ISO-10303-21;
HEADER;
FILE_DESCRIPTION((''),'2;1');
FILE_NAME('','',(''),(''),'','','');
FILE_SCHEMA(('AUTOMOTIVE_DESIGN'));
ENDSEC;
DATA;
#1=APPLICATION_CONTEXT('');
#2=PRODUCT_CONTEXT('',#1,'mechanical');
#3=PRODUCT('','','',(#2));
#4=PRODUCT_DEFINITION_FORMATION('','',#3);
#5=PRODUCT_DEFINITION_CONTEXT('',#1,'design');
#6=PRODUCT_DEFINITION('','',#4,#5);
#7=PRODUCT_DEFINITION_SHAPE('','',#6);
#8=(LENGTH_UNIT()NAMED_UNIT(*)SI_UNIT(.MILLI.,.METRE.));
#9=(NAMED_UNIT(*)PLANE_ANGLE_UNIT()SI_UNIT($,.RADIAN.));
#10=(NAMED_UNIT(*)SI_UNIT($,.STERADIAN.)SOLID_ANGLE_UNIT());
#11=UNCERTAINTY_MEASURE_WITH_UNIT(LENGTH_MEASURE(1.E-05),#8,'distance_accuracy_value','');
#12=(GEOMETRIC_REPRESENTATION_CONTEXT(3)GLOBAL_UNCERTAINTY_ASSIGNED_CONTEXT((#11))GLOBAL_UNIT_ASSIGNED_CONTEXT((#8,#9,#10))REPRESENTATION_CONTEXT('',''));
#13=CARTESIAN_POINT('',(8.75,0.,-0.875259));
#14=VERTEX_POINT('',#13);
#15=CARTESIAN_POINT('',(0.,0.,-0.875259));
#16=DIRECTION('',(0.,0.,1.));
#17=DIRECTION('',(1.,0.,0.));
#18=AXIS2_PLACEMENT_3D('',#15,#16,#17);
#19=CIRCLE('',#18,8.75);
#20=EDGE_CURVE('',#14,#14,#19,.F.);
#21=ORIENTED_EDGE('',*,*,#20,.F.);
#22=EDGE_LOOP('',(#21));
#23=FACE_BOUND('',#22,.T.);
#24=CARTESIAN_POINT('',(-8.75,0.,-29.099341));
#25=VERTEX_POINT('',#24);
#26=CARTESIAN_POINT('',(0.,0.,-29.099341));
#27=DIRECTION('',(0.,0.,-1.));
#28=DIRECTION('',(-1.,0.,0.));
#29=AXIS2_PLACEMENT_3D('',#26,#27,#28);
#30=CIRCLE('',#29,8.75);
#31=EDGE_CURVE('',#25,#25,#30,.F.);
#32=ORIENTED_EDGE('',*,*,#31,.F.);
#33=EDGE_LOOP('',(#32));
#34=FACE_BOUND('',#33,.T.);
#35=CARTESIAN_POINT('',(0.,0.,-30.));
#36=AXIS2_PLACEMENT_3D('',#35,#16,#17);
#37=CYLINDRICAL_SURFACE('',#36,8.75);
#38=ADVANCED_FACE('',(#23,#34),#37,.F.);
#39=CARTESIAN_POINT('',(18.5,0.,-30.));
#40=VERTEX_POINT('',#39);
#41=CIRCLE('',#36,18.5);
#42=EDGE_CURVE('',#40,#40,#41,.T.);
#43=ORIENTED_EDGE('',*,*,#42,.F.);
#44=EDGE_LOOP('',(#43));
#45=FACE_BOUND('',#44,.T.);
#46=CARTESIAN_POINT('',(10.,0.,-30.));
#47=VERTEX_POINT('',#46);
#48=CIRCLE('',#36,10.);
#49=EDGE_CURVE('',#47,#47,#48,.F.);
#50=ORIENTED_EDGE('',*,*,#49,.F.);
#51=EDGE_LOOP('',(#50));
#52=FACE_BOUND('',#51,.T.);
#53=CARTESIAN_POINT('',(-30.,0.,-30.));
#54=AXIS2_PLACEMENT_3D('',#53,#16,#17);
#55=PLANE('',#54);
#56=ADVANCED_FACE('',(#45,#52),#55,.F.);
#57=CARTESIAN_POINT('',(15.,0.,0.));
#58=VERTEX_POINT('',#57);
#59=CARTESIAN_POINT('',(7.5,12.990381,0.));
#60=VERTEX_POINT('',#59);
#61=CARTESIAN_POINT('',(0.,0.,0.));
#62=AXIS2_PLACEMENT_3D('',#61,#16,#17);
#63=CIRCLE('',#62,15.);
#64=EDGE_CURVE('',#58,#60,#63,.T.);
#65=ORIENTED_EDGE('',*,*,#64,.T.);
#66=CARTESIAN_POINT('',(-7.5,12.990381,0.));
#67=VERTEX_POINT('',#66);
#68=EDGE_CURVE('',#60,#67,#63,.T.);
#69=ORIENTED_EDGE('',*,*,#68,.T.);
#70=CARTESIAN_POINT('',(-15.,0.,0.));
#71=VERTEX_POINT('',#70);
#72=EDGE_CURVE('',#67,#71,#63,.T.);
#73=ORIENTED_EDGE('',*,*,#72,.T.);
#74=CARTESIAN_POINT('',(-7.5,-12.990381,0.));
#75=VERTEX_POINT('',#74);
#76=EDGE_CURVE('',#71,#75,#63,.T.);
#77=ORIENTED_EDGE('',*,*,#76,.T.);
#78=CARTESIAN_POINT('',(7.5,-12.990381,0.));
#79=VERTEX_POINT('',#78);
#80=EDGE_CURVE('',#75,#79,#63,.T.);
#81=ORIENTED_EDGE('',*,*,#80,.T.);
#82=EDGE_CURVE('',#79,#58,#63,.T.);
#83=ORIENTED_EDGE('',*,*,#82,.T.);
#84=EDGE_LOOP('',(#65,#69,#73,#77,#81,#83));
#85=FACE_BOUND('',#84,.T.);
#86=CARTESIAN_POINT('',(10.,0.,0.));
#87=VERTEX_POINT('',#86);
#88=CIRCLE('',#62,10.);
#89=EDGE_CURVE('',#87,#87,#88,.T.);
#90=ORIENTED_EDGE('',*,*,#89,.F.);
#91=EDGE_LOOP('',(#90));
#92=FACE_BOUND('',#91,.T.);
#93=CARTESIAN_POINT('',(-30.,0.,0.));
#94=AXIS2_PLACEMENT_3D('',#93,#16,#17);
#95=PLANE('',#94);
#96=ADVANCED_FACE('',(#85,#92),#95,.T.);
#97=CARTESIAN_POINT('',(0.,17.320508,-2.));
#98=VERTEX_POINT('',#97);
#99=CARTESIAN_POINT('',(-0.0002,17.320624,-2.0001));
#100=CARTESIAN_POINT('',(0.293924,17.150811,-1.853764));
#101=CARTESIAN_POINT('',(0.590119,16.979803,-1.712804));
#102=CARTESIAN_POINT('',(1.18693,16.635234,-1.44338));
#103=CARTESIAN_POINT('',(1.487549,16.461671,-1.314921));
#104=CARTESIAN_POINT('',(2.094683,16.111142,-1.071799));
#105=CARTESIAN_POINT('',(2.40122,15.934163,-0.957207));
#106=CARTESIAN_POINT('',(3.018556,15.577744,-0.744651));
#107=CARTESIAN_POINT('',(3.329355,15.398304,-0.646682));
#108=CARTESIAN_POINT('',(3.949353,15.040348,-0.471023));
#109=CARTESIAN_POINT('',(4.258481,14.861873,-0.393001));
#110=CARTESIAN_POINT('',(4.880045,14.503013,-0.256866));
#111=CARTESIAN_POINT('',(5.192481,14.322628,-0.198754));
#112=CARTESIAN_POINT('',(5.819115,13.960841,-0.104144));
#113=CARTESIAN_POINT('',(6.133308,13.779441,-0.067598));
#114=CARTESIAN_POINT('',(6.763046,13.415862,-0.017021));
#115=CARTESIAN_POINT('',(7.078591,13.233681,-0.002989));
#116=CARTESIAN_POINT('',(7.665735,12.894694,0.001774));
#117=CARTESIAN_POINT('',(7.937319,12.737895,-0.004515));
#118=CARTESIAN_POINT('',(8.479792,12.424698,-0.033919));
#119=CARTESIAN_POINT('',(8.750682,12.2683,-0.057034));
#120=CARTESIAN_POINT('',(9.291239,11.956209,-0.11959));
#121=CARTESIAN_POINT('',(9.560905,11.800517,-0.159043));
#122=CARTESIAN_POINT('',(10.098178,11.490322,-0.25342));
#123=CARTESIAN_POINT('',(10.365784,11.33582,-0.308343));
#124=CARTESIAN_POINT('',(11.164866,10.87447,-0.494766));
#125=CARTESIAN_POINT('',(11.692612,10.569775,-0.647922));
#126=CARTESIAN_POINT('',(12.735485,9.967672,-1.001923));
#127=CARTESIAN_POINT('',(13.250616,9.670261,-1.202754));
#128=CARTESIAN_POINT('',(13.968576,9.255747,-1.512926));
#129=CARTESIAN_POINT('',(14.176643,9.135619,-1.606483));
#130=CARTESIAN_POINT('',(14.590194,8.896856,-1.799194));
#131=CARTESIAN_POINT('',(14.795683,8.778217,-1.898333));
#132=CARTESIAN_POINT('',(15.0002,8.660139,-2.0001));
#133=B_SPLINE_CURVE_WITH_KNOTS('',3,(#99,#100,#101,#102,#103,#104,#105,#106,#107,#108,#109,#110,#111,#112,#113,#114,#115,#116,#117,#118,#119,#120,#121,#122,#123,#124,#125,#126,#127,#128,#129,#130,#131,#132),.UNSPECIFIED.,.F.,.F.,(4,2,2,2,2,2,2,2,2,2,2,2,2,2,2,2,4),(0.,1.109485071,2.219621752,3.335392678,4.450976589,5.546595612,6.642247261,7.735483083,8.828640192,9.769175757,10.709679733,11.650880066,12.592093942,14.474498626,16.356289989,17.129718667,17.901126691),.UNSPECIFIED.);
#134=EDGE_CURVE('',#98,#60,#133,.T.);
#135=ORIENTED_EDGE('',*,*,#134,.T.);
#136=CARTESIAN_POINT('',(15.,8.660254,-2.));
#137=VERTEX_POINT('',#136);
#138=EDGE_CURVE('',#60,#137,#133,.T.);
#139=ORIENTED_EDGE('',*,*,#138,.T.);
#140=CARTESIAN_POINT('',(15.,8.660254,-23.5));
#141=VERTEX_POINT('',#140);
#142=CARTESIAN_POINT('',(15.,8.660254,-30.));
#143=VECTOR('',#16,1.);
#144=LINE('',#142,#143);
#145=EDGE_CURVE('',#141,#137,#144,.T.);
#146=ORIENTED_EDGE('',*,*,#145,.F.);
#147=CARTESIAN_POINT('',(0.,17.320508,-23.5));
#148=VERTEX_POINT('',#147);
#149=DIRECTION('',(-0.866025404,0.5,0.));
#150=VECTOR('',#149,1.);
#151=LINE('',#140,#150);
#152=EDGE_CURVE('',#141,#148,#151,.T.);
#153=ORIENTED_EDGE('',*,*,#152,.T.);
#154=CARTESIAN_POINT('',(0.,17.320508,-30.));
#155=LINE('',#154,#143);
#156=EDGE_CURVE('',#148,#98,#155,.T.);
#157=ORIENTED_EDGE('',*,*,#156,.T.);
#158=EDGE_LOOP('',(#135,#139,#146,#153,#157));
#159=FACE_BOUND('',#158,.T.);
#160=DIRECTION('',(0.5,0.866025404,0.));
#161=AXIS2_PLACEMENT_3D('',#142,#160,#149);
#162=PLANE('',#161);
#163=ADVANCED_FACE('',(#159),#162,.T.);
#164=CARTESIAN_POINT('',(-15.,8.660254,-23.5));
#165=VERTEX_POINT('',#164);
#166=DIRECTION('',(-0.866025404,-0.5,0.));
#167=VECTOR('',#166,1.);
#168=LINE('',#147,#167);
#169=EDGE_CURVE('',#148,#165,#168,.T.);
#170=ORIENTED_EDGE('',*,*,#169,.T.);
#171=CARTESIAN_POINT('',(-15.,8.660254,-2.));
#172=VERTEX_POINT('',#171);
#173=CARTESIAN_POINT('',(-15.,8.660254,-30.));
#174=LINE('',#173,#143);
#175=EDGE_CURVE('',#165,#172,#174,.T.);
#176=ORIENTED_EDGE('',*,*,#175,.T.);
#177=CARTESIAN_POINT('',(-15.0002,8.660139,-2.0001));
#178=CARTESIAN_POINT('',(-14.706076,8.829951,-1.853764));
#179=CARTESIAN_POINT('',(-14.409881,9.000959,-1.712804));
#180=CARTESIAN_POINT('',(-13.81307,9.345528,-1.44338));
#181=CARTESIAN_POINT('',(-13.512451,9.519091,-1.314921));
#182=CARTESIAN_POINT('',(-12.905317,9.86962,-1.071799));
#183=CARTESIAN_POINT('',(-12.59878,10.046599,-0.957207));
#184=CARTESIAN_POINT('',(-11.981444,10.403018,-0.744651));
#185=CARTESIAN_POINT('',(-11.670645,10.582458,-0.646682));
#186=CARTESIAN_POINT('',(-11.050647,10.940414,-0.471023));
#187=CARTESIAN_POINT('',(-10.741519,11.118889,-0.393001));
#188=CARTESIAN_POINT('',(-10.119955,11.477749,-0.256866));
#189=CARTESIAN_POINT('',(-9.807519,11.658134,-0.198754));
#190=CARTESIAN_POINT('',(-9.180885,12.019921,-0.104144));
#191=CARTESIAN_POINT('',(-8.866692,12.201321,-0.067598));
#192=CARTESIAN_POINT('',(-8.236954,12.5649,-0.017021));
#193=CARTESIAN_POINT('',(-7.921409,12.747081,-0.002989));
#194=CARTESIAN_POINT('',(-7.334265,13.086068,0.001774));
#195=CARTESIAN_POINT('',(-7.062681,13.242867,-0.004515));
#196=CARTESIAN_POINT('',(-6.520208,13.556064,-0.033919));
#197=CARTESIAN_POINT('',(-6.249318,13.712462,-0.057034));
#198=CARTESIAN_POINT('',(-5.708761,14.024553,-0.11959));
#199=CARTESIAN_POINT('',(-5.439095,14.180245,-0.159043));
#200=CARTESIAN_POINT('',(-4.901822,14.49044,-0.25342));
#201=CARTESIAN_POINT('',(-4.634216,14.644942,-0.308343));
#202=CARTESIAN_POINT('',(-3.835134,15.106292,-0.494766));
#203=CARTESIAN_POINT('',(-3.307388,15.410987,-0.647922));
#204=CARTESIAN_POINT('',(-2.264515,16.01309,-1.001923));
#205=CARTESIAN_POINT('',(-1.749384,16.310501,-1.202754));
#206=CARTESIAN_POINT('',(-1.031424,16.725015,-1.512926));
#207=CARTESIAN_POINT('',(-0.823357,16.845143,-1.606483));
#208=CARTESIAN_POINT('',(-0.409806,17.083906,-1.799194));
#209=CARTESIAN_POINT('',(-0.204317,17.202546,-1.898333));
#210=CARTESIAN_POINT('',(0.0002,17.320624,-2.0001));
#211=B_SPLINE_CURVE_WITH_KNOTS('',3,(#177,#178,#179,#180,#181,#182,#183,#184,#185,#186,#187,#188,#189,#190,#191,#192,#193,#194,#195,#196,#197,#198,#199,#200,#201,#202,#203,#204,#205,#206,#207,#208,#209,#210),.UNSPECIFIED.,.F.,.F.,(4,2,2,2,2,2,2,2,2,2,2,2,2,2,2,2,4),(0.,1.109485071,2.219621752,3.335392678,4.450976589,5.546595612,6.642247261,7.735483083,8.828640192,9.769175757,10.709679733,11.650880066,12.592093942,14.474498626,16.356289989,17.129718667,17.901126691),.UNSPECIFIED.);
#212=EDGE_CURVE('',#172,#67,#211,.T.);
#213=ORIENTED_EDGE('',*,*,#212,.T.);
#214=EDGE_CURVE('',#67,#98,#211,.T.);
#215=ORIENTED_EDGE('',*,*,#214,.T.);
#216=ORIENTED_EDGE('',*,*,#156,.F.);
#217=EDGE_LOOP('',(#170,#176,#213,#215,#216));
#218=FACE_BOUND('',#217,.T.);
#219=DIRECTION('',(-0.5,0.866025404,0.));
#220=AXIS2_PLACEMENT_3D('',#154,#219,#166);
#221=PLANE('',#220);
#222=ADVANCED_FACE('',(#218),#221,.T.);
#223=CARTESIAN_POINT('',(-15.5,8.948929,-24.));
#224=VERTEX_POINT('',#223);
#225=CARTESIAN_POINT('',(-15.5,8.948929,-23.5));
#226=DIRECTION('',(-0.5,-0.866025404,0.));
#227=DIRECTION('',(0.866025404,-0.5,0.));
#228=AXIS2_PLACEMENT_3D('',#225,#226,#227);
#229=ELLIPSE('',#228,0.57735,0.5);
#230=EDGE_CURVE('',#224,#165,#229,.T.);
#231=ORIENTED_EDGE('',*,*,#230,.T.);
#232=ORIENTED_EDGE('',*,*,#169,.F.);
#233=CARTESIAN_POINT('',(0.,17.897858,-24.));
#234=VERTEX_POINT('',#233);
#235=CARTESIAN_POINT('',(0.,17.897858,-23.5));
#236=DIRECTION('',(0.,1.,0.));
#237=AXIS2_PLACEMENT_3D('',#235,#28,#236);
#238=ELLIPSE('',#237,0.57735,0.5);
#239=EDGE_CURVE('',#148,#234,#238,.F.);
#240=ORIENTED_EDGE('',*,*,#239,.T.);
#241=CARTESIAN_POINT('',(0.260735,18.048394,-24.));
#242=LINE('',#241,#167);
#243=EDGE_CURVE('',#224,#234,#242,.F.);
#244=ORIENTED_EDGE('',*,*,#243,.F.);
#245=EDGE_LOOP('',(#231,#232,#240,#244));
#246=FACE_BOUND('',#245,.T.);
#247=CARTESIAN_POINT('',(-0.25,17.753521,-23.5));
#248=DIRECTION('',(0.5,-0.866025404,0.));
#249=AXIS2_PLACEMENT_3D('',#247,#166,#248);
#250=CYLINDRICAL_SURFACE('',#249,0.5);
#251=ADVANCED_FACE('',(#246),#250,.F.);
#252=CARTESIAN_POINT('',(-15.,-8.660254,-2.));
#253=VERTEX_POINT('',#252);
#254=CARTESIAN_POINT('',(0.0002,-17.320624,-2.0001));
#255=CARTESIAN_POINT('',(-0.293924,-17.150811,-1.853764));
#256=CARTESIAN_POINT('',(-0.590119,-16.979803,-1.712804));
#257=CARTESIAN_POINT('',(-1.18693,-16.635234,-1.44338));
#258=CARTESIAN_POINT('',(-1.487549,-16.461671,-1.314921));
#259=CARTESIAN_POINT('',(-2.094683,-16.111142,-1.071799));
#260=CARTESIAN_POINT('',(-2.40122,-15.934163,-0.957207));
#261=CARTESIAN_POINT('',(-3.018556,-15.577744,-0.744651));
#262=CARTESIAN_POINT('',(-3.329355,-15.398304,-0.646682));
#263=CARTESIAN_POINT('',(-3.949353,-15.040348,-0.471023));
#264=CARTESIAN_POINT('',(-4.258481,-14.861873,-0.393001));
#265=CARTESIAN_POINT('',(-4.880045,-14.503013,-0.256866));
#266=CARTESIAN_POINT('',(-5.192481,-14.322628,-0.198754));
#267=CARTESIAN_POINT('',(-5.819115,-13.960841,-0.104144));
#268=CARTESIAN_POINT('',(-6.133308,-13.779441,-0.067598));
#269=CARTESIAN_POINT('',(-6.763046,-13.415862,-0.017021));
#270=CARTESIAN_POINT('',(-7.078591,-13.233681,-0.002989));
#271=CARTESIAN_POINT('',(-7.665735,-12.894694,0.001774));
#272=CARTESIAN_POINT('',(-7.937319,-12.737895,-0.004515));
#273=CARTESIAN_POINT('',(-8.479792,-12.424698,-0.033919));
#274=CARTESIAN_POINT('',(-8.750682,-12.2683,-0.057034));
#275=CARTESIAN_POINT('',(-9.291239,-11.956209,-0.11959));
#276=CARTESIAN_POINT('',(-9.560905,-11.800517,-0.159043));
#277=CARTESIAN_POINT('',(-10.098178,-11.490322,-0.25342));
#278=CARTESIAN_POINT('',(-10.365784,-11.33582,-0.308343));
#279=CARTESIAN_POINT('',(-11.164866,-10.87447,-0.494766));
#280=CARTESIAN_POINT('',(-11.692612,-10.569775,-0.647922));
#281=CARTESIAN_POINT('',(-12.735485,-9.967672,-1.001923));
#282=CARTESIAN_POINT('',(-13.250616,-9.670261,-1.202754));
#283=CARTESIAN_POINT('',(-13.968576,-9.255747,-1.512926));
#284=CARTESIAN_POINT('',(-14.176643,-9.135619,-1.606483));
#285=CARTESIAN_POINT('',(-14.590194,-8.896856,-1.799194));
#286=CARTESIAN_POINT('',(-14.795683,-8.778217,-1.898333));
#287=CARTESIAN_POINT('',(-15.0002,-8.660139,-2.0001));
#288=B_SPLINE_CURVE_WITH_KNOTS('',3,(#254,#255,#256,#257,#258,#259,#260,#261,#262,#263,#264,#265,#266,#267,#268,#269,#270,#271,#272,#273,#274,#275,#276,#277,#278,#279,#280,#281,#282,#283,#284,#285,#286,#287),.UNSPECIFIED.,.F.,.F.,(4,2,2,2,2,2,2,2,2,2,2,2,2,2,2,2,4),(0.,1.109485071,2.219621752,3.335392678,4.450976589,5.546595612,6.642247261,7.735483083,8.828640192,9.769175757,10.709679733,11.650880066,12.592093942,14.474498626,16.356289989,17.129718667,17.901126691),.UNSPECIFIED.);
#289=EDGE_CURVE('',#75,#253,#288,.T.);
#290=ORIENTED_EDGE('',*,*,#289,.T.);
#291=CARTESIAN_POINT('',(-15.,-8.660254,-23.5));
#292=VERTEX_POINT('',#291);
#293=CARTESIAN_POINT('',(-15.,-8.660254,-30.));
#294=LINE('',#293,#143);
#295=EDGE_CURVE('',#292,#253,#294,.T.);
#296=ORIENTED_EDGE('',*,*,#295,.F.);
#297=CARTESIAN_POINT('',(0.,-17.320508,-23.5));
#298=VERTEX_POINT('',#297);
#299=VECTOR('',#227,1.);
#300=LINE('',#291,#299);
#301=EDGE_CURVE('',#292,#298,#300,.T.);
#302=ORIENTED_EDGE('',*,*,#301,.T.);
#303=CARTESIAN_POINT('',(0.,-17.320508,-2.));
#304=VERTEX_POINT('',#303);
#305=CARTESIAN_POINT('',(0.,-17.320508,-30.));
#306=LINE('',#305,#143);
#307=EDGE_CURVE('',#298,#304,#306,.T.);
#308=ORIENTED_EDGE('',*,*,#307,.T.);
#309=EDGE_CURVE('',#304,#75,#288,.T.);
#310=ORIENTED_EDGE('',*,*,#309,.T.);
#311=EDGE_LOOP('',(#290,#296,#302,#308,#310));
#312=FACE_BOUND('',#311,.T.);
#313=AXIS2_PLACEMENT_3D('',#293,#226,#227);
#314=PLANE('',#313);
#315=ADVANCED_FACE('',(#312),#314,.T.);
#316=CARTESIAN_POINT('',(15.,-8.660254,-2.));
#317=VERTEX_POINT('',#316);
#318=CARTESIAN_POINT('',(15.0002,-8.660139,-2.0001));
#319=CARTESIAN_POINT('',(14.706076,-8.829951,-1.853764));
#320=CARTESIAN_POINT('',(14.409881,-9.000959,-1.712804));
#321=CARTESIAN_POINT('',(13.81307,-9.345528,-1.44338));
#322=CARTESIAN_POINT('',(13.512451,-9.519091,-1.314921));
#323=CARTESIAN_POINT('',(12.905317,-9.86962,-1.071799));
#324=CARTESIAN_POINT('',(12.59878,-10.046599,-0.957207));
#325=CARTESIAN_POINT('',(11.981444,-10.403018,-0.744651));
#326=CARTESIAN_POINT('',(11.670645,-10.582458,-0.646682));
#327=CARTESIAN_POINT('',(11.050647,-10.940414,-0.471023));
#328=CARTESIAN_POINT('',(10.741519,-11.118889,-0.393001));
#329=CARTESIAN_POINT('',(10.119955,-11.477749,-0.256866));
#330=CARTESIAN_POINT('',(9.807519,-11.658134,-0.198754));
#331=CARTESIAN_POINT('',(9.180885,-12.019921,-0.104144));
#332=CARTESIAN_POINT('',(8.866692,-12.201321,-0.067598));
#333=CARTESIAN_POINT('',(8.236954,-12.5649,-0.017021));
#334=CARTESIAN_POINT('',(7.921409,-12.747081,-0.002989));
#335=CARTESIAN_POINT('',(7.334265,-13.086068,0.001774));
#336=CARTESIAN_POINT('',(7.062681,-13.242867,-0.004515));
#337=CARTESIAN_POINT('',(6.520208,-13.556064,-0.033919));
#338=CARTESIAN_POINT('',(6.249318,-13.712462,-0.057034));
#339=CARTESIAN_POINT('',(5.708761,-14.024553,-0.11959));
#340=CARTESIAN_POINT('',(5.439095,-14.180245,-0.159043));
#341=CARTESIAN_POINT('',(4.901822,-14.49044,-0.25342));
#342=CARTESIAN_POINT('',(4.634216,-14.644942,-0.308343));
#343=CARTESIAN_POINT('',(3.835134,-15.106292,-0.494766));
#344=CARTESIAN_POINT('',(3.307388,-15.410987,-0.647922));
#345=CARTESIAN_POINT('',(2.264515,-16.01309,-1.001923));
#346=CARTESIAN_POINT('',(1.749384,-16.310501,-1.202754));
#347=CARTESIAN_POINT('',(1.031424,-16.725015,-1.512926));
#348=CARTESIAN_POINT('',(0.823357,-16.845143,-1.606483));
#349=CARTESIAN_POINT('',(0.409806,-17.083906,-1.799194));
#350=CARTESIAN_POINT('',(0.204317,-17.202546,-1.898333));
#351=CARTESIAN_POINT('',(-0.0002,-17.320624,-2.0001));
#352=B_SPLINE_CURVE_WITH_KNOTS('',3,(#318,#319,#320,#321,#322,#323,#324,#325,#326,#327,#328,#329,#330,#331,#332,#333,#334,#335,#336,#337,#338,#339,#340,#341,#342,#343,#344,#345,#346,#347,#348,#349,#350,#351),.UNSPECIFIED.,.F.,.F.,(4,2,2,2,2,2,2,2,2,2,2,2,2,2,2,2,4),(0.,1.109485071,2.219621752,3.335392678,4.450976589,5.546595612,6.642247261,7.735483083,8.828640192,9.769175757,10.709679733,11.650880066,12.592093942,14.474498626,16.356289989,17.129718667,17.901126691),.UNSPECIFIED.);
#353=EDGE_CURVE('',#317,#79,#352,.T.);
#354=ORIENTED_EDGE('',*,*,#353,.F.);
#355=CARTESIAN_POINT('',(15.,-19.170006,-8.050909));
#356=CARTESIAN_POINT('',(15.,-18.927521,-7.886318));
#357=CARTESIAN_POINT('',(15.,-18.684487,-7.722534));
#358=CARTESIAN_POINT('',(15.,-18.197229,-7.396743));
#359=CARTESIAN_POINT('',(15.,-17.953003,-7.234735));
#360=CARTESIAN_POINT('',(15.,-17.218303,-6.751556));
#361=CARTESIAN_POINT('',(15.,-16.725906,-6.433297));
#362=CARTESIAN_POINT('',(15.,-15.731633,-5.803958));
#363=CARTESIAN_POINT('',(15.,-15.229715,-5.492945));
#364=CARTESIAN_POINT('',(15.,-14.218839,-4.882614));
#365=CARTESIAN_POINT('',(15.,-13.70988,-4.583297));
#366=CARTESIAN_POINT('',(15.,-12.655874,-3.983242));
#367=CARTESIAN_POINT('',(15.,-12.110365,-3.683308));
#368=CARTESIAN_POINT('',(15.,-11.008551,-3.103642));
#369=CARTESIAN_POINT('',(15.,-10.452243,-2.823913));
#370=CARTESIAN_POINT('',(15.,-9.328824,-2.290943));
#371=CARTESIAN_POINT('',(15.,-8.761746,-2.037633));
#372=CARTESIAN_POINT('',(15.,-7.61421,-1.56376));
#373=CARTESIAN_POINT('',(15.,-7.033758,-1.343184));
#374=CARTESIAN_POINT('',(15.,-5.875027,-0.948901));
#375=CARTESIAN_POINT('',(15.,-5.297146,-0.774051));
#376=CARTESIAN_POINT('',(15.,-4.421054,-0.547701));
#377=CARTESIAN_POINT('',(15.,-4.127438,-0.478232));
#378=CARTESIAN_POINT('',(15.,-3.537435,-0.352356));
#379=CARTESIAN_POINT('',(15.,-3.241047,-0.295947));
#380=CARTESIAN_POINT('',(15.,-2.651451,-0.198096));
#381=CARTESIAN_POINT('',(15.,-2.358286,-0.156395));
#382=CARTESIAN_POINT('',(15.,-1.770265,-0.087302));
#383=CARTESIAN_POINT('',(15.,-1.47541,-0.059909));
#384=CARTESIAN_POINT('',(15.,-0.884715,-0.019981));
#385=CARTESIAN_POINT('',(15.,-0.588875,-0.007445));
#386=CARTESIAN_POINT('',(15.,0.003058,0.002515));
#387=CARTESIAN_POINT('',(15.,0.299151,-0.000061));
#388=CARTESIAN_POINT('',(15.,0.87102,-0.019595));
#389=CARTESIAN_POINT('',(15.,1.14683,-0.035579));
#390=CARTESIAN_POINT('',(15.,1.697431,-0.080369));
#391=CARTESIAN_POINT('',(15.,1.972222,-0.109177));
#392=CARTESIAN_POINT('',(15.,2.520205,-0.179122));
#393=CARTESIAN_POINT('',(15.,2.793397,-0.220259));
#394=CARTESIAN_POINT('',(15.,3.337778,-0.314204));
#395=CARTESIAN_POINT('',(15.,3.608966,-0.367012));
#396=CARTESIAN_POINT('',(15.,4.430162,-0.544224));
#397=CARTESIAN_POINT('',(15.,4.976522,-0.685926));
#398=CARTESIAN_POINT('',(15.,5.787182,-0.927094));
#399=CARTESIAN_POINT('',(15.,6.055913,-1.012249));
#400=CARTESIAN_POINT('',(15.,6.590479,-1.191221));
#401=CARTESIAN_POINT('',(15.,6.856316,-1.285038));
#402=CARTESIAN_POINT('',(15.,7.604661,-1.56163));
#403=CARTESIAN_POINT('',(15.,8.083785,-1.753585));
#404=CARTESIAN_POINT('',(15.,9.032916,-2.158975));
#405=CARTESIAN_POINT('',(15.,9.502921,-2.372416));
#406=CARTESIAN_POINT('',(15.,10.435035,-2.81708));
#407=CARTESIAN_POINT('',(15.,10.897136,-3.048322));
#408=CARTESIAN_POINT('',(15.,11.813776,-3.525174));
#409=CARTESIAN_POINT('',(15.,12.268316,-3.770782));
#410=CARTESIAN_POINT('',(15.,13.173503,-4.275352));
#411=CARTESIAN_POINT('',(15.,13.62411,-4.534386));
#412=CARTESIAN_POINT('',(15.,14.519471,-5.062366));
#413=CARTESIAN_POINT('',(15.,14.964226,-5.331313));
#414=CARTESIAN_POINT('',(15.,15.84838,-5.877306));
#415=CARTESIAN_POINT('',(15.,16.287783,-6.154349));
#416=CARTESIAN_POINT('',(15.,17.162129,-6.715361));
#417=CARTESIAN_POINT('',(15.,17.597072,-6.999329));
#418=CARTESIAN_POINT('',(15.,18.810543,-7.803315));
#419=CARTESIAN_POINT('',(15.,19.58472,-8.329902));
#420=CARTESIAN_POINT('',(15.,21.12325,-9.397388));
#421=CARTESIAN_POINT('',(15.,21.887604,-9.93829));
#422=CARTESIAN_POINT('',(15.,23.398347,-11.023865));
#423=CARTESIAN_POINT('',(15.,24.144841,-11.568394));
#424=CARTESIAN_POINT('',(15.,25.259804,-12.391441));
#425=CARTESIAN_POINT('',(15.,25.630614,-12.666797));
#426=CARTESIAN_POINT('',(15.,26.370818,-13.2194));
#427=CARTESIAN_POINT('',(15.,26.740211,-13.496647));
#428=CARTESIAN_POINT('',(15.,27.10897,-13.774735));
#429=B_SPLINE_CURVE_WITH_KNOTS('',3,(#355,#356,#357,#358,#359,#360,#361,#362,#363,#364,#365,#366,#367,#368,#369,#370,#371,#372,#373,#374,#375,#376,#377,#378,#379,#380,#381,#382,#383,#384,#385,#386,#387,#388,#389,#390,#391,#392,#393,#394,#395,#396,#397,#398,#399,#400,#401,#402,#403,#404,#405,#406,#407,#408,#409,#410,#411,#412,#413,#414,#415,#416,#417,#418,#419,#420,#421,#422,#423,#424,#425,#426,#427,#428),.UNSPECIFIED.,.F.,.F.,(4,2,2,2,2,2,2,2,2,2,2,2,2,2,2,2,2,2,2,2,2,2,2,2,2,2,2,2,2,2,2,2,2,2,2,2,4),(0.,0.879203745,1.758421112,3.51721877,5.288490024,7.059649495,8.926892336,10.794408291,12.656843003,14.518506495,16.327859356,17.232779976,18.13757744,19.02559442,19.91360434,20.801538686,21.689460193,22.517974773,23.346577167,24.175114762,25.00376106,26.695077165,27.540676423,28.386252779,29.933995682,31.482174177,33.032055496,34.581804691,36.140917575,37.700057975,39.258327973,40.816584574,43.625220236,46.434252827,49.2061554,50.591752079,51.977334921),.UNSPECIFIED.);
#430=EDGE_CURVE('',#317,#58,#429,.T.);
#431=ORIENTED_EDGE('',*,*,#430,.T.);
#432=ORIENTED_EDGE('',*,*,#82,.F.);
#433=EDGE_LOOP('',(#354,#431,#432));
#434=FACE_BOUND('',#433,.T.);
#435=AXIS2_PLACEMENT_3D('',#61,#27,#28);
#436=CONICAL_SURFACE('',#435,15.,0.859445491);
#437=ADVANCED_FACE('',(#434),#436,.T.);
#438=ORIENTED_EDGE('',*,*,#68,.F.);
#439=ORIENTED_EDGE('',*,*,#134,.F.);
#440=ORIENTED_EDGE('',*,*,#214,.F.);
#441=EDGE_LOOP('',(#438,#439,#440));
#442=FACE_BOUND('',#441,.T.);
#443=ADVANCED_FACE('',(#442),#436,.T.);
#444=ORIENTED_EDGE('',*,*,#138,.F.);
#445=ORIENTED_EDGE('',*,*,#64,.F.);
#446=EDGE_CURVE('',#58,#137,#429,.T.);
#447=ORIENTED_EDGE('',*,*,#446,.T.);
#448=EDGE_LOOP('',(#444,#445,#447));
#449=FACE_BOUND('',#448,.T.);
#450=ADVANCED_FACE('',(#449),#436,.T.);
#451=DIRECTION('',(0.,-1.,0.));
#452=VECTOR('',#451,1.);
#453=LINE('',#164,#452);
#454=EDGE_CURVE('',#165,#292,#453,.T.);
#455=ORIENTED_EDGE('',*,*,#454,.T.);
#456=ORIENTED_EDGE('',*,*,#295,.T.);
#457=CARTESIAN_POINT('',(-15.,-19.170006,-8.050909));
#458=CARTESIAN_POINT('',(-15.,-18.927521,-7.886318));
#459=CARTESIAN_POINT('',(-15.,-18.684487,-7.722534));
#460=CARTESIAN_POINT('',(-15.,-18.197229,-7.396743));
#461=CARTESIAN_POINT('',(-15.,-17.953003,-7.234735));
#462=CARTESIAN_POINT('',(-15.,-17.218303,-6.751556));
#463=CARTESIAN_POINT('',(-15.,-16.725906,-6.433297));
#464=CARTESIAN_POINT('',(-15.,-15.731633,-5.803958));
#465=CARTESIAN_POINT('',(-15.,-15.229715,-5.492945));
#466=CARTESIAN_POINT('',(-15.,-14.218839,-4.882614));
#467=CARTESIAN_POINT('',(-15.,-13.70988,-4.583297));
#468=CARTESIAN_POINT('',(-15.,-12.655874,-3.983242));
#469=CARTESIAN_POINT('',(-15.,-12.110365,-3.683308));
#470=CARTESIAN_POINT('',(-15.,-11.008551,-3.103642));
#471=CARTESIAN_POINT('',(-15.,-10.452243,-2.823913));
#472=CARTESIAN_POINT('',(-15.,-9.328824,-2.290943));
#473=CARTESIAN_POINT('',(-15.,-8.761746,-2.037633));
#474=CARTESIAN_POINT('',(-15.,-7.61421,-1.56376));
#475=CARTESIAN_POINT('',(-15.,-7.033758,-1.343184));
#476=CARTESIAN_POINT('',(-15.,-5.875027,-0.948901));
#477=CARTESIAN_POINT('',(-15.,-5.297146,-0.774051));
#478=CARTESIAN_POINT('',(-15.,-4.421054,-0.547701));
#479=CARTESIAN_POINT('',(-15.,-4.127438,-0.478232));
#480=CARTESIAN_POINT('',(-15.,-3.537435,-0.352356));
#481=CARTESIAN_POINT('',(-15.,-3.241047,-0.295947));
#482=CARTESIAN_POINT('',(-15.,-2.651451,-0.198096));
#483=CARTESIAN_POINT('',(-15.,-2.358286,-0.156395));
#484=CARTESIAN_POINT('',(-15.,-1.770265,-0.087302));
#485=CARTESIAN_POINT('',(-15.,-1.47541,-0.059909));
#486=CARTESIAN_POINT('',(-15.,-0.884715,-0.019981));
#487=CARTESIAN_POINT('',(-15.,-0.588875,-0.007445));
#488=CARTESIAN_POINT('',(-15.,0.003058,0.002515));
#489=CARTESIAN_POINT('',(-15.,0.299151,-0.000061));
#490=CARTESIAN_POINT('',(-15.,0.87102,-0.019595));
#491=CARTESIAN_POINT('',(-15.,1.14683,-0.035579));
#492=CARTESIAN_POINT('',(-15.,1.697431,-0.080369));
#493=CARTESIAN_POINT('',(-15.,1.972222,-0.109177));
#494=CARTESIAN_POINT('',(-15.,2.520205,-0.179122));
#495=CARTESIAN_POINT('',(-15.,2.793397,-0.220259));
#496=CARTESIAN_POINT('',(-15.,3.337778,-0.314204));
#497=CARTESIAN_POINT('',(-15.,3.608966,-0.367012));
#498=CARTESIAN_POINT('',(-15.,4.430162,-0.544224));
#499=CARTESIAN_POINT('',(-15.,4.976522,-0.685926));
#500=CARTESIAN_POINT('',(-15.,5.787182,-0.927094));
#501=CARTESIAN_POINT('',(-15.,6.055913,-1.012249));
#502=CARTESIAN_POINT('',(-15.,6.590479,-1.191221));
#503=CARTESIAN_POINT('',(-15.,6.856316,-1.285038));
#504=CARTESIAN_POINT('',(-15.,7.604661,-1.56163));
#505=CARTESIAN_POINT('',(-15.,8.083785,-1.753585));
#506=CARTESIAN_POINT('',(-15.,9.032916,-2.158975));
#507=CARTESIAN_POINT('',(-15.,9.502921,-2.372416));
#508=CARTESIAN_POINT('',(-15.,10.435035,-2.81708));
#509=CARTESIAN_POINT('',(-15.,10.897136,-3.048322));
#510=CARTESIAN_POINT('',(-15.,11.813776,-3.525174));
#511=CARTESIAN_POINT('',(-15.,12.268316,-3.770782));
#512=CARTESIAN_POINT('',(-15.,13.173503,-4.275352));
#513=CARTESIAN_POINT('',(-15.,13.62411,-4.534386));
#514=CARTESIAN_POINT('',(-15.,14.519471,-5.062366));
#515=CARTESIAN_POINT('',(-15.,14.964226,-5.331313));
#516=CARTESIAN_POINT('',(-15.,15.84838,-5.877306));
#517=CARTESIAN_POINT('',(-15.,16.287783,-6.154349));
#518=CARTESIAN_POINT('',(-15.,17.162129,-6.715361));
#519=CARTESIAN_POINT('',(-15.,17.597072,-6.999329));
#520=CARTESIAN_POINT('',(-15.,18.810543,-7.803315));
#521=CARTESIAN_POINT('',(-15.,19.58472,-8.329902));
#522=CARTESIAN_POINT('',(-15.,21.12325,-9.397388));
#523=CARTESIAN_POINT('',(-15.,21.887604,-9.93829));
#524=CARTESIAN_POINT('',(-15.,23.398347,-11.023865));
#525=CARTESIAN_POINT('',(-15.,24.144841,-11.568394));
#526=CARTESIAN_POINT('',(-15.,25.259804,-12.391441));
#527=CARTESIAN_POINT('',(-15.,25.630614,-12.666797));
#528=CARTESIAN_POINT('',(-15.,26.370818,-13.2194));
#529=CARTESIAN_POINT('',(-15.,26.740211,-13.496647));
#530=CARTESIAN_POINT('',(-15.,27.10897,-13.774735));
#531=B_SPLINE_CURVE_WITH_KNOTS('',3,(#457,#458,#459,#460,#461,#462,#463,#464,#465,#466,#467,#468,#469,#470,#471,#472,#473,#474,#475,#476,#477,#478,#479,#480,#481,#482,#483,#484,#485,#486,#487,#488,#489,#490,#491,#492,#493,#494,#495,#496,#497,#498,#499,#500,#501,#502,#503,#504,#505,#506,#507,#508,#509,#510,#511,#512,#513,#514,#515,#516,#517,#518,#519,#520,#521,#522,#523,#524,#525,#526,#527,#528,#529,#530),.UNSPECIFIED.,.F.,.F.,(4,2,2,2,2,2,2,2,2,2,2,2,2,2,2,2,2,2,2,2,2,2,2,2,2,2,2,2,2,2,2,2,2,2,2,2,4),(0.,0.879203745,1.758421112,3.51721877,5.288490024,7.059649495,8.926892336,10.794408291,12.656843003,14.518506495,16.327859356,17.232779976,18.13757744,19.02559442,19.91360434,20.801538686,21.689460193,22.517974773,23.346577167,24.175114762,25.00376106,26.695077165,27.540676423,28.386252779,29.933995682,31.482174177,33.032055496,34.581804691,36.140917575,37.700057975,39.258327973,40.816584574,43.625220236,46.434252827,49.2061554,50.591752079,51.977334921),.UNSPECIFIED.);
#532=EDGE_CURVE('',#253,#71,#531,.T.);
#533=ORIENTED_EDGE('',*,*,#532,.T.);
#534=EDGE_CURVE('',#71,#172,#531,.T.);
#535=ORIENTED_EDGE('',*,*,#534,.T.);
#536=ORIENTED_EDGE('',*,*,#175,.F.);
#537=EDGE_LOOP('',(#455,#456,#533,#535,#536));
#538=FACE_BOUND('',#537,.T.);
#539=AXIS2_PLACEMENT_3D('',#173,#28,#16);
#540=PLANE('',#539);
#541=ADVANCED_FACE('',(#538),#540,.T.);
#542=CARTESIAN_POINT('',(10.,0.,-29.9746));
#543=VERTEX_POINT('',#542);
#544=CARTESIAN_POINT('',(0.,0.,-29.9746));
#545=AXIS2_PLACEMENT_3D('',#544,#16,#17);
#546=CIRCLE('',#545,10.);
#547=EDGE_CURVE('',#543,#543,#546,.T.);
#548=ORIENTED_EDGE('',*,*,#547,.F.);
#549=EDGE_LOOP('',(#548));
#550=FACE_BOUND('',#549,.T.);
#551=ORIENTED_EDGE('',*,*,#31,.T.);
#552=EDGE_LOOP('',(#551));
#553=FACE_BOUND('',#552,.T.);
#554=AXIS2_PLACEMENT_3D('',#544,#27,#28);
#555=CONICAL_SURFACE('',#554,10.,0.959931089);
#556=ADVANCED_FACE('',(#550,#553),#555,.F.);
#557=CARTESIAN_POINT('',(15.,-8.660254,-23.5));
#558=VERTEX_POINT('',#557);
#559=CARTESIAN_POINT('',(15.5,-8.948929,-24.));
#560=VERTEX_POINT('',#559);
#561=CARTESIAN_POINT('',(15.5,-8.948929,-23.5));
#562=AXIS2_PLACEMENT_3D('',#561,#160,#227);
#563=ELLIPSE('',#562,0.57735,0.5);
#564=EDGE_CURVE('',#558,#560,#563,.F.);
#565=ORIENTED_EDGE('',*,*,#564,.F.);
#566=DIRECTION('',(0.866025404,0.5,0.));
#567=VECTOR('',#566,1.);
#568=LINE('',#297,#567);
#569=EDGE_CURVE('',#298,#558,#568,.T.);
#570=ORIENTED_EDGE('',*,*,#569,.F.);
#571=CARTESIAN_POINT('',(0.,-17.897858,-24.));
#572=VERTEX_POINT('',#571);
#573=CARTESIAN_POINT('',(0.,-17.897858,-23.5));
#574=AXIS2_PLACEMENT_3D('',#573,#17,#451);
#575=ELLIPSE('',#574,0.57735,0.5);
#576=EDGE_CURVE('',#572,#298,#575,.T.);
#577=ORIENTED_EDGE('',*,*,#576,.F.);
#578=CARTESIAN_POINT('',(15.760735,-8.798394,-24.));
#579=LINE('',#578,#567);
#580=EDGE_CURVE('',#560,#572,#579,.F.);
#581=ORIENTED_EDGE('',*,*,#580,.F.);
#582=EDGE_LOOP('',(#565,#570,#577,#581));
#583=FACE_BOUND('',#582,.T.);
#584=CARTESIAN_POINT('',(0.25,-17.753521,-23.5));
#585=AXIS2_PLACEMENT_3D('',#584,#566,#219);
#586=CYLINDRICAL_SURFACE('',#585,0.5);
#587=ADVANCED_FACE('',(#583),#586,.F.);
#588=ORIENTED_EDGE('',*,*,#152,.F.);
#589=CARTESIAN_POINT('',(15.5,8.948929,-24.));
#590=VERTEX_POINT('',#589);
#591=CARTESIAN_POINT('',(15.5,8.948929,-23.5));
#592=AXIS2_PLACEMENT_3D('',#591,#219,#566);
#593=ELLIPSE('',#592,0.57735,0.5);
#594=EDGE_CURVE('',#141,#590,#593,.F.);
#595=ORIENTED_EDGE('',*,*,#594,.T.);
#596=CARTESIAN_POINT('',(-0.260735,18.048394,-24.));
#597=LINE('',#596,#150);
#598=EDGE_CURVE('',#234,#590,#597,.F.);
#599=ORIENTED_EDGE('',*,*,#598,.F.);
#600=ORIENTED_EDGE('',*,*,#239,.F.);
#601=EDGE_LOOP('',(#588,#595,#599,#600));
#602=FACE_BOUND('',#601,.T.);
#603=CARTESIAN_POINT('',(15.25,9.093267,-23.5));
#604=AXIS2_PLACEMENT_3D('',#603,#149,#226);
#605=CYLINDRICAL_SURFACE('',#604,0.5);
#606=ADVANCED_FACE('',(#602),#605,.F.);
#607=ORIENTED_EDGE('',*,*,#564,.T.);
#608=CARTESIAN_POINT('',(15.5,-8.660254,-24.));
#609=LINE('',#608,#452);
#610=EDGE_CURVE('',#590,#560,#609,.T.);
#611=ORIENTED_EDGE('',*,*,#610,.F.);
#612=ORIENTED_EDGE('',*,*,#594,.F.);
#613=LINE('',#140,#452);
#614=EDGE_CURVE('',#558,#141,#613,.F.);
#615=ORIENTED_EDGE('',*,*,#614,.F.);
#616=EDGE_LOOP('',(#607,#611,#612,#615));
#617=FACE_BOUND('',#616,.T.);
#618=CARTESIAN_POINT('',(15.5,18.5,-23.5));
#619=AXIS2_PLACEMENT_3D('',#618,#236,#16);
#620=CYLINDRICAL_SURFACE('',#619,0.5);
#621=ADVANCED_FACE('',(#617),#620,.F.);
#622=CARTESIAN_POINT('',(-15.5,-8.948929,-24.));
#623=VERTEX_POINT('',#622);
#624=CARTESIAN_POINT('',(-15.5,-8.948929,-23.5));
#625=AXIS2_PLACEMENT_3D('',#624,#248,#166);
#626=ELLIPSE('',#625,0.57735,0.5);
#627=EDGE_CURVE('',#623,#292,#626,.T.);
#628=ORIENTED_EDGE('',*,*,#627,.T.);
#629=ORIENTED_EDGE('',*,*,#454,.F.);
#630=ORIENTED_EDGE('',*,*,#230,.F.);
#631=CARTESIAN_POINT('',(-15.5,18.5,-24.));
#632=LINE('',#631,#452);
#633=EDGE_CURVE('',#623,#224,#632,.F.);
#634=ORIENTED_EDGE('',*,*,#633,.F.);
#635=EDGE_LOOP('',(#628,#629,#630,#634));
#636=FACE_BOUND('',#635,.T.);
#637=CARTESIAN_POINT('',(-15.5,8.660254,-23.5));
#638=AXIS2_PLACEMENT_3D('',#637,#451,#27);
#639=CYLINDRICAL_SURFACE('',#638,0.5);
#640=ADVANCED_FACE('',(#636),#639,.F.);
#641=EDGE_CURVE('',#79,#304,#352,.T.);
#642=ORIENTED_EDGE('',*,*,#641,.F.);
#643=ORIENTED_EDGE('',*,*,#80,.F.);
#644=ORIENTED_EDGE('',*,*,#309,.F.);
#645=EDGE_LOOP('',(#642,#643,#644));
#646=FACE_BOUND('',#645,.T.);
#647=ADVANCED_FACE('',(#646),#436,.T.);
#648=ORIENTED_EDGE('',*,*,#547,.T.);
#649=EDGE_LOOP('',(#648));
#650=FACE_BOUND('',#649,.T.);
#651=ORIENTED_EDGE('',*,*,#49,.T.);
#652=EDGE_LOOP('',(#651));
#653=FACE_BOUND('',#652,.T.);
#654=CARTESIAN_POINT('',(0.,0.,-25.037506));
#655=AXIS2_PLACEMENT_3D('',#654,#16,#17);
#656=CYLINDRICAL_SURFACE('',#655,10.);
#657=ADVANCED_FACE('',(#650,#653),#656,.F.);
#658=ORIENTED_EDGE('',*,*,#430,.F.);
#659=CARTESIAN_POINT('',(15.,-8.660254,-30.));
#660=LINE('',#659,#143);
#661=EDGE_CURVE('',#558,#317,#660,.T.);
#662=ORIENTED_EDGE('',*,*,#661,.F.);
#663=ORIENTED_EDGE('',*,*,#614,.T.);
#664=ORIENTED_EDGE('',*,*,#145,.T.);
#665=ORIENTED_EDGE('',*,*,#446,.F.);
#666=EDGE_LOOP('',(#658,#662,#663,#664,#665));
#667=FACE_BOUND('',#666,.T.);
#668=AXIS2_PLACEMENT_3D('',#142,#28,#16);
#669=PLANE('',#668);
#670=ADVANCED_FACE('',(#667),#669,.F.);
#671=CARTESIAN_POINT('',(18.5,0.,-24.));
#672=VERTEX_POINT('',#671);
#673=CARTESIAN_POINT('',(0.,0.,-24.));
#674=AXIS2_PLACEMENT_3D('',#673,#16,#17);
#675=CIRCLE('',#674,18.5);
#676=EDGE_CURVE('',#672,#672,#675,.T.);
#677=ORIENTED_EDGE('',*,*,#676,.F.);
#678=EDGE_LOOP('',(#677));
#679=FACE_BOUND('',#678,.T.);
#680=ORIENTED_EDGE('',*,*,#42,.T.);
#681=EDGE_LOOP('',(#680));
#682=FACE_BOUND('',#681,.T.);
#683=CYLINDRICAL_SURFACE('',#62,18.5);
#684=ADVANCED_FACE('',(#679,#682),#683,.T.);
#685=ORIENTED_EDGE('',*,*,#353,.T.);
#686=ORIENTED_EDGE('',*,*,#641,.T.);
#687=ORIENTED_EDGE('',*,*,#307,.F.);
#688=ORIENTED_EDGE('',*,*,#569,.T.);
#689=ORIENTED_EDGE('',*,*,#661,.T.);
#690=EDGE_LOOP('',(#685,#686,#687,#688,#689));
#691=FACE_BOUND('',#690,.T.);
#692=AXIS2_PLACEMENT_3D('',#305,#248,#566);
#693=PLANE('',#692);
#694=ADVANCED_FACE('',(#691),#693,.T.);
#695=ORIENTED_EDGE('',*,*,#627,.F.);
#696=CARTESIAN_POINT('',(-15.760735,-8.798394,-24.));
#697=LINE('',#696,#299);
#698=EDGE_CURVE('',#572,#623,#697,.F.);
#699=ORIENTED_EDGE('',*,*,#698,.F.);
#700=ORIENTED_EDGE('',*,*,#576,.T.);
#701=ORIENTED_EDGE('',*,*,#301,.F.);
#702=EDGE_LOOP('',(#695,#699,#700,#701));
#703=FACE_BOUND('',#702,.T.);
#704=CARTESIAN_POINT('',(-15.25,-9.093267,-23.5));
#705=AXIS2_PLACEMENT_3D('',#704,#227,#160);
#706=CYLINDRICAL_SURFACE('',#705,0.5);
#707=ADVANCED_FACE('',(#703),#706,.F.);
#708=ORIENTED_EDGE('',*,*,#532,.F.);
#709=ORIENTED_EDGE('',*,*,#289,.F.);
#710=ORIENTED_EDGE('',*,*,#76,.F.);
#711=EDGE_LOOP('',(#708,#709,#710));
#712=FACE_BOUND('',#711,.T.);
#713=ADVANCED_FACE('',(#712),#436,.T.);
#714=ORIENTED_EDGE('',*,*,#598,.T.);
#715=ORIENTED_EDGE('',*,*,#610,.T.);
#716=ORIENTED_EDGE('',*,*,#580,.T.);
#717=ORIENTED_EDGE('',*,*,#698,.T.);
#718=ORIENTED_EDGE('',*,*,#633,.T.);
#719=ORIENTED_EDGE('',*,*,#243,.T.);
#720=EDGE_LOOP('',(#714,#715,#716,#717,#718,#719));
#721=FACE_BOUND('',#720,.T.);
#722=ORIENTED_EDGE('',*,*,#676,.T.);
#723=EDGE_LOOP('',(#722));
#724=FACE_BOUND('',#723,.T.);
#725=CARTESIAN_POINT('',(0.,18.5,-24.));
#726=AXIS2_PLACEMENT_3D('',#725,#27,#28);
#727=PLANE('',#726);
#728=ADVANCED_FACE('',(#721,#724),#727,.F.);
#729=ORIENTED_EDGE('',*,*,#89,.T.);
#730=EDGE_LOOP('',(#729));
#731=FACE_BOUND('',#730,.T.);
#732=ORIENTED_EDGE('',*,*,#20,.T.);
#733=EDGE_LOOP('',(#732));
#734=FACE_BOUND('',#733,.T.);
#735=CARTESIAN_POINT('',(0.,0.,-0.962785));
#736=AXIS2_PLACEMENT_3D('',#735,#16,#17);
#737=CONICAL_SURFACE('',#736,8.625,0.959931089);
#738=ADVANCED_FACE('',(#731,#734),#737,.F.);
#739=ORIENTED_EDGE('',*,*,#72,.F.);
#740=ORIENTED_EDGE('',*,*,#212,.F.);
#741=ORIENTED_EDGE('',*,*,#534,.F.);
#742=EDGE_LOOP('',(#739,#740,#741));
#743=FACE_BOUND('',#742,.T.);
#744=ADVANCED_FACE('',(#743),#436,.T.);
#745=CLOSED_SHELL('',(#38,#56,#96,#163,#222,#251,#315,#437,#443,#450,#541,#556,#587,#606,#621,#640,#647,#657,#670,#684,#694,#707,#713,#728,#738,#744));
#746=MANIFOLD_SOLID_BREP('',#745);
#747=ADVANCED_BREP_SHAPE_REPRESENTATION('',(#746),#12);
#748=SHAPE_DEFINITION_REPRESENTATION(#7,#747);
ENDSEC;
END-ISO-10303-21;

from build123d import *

# Parameters (mm, degrees)
BASENUTSKE_R  = 8.75
BASENUT_DEPTH = 30
COLLARSKE_W   = 6
COLLARSKE_H   = 9.75
FILLET_2_R    = 0.5


with BuildPart() as part:
    # BaseNutSke → BaseNut (new body)
    with BuildSketch(Plane.XY):
        Polygon((15, 8.660254038), (15, -8.660254038), (0, -17.320508076), (-15, -8.660254038), (-15, 8.660254038), (0, 17.320508076), align=None)
        Circle(BASENUTSKE_R, mode=Mode.SUBTRACT)
    extrude(amount=-BASENUT_DEPTH)

    # CollarSke → Collar (revolve)
    with BuildSketch(Plane(origin=(0, 0, 0), x_dir=(0, 0, -1), z_dir=(1, 0, 0)), mode=Mode.PRIVATE) as collar_sk:
        with Locations((27, 13.625)):
            Rectangle(COLLARSKE_W, COLLARSKE_H)
    revolve(collar_sk.sketch.rotate(Axis((0, 0, 0), (0, 0, -1)), 90), axis=Axis((0, 0, 0), (0, 0, -1)))

    # Sketch3 → Chamfer 2 (revolve, cut)
    with BuildSketch(Plane(origin=(0, 0, 0), x_dir=(0, 0, -1), z_dir=(1, 0, 0))):
        Polygon((2, 30.020508076), (-12.7, 30.020508076), (-12.7, 15), (0, 15), (2, 17.320508076), align=None)
    revolve(axis=Axis((0, 0, 0), (0, 0, -1)), mode=Mode.SUBTRACT)

    # Sketch5 → EndChamfer (revolve, cut)
    with BuildSketch(Plane(origin=(0, 0, 0), x_dir=(0, 0, -1), z_dir=(1, 0, 0)), mode=Mode.PRIVATE) as endchamfer_sk:
        Polygon((29.9746, 10), (29.011814635, 8.625), (30.0254, 8.625), (30.0254, 10), align=None)
        Polygon((-0.0508, 10), (0, 10), (0.962785365, 8.625), (-0.0508, 8.625), align=None)
    revolve(endchamfer_sk.sketch.rotate(Axis((0, 0, -25.037505729), (0, 0, -1)), 90), axis=Axis((0, 0, -25.037505729), (0, 0, -1)), mode=Mode.SUBTRACT)

    # Fillet 2
    fillet_2_edges = [part.edges().sort_by_distance(p)[0] for p in [
        (7.5, 12.990381057, -24),
        (-7.5, 12.990381057, -24),
        (-15, 0, -24),
        (-7.5, -12.990381057, -24),
        (7.5, -12.990381057, -24),
        (15, 0, -24),
    ]]
    fillet(fillet_2_edges, radius=FILLET_2_R)


solid = part.part
